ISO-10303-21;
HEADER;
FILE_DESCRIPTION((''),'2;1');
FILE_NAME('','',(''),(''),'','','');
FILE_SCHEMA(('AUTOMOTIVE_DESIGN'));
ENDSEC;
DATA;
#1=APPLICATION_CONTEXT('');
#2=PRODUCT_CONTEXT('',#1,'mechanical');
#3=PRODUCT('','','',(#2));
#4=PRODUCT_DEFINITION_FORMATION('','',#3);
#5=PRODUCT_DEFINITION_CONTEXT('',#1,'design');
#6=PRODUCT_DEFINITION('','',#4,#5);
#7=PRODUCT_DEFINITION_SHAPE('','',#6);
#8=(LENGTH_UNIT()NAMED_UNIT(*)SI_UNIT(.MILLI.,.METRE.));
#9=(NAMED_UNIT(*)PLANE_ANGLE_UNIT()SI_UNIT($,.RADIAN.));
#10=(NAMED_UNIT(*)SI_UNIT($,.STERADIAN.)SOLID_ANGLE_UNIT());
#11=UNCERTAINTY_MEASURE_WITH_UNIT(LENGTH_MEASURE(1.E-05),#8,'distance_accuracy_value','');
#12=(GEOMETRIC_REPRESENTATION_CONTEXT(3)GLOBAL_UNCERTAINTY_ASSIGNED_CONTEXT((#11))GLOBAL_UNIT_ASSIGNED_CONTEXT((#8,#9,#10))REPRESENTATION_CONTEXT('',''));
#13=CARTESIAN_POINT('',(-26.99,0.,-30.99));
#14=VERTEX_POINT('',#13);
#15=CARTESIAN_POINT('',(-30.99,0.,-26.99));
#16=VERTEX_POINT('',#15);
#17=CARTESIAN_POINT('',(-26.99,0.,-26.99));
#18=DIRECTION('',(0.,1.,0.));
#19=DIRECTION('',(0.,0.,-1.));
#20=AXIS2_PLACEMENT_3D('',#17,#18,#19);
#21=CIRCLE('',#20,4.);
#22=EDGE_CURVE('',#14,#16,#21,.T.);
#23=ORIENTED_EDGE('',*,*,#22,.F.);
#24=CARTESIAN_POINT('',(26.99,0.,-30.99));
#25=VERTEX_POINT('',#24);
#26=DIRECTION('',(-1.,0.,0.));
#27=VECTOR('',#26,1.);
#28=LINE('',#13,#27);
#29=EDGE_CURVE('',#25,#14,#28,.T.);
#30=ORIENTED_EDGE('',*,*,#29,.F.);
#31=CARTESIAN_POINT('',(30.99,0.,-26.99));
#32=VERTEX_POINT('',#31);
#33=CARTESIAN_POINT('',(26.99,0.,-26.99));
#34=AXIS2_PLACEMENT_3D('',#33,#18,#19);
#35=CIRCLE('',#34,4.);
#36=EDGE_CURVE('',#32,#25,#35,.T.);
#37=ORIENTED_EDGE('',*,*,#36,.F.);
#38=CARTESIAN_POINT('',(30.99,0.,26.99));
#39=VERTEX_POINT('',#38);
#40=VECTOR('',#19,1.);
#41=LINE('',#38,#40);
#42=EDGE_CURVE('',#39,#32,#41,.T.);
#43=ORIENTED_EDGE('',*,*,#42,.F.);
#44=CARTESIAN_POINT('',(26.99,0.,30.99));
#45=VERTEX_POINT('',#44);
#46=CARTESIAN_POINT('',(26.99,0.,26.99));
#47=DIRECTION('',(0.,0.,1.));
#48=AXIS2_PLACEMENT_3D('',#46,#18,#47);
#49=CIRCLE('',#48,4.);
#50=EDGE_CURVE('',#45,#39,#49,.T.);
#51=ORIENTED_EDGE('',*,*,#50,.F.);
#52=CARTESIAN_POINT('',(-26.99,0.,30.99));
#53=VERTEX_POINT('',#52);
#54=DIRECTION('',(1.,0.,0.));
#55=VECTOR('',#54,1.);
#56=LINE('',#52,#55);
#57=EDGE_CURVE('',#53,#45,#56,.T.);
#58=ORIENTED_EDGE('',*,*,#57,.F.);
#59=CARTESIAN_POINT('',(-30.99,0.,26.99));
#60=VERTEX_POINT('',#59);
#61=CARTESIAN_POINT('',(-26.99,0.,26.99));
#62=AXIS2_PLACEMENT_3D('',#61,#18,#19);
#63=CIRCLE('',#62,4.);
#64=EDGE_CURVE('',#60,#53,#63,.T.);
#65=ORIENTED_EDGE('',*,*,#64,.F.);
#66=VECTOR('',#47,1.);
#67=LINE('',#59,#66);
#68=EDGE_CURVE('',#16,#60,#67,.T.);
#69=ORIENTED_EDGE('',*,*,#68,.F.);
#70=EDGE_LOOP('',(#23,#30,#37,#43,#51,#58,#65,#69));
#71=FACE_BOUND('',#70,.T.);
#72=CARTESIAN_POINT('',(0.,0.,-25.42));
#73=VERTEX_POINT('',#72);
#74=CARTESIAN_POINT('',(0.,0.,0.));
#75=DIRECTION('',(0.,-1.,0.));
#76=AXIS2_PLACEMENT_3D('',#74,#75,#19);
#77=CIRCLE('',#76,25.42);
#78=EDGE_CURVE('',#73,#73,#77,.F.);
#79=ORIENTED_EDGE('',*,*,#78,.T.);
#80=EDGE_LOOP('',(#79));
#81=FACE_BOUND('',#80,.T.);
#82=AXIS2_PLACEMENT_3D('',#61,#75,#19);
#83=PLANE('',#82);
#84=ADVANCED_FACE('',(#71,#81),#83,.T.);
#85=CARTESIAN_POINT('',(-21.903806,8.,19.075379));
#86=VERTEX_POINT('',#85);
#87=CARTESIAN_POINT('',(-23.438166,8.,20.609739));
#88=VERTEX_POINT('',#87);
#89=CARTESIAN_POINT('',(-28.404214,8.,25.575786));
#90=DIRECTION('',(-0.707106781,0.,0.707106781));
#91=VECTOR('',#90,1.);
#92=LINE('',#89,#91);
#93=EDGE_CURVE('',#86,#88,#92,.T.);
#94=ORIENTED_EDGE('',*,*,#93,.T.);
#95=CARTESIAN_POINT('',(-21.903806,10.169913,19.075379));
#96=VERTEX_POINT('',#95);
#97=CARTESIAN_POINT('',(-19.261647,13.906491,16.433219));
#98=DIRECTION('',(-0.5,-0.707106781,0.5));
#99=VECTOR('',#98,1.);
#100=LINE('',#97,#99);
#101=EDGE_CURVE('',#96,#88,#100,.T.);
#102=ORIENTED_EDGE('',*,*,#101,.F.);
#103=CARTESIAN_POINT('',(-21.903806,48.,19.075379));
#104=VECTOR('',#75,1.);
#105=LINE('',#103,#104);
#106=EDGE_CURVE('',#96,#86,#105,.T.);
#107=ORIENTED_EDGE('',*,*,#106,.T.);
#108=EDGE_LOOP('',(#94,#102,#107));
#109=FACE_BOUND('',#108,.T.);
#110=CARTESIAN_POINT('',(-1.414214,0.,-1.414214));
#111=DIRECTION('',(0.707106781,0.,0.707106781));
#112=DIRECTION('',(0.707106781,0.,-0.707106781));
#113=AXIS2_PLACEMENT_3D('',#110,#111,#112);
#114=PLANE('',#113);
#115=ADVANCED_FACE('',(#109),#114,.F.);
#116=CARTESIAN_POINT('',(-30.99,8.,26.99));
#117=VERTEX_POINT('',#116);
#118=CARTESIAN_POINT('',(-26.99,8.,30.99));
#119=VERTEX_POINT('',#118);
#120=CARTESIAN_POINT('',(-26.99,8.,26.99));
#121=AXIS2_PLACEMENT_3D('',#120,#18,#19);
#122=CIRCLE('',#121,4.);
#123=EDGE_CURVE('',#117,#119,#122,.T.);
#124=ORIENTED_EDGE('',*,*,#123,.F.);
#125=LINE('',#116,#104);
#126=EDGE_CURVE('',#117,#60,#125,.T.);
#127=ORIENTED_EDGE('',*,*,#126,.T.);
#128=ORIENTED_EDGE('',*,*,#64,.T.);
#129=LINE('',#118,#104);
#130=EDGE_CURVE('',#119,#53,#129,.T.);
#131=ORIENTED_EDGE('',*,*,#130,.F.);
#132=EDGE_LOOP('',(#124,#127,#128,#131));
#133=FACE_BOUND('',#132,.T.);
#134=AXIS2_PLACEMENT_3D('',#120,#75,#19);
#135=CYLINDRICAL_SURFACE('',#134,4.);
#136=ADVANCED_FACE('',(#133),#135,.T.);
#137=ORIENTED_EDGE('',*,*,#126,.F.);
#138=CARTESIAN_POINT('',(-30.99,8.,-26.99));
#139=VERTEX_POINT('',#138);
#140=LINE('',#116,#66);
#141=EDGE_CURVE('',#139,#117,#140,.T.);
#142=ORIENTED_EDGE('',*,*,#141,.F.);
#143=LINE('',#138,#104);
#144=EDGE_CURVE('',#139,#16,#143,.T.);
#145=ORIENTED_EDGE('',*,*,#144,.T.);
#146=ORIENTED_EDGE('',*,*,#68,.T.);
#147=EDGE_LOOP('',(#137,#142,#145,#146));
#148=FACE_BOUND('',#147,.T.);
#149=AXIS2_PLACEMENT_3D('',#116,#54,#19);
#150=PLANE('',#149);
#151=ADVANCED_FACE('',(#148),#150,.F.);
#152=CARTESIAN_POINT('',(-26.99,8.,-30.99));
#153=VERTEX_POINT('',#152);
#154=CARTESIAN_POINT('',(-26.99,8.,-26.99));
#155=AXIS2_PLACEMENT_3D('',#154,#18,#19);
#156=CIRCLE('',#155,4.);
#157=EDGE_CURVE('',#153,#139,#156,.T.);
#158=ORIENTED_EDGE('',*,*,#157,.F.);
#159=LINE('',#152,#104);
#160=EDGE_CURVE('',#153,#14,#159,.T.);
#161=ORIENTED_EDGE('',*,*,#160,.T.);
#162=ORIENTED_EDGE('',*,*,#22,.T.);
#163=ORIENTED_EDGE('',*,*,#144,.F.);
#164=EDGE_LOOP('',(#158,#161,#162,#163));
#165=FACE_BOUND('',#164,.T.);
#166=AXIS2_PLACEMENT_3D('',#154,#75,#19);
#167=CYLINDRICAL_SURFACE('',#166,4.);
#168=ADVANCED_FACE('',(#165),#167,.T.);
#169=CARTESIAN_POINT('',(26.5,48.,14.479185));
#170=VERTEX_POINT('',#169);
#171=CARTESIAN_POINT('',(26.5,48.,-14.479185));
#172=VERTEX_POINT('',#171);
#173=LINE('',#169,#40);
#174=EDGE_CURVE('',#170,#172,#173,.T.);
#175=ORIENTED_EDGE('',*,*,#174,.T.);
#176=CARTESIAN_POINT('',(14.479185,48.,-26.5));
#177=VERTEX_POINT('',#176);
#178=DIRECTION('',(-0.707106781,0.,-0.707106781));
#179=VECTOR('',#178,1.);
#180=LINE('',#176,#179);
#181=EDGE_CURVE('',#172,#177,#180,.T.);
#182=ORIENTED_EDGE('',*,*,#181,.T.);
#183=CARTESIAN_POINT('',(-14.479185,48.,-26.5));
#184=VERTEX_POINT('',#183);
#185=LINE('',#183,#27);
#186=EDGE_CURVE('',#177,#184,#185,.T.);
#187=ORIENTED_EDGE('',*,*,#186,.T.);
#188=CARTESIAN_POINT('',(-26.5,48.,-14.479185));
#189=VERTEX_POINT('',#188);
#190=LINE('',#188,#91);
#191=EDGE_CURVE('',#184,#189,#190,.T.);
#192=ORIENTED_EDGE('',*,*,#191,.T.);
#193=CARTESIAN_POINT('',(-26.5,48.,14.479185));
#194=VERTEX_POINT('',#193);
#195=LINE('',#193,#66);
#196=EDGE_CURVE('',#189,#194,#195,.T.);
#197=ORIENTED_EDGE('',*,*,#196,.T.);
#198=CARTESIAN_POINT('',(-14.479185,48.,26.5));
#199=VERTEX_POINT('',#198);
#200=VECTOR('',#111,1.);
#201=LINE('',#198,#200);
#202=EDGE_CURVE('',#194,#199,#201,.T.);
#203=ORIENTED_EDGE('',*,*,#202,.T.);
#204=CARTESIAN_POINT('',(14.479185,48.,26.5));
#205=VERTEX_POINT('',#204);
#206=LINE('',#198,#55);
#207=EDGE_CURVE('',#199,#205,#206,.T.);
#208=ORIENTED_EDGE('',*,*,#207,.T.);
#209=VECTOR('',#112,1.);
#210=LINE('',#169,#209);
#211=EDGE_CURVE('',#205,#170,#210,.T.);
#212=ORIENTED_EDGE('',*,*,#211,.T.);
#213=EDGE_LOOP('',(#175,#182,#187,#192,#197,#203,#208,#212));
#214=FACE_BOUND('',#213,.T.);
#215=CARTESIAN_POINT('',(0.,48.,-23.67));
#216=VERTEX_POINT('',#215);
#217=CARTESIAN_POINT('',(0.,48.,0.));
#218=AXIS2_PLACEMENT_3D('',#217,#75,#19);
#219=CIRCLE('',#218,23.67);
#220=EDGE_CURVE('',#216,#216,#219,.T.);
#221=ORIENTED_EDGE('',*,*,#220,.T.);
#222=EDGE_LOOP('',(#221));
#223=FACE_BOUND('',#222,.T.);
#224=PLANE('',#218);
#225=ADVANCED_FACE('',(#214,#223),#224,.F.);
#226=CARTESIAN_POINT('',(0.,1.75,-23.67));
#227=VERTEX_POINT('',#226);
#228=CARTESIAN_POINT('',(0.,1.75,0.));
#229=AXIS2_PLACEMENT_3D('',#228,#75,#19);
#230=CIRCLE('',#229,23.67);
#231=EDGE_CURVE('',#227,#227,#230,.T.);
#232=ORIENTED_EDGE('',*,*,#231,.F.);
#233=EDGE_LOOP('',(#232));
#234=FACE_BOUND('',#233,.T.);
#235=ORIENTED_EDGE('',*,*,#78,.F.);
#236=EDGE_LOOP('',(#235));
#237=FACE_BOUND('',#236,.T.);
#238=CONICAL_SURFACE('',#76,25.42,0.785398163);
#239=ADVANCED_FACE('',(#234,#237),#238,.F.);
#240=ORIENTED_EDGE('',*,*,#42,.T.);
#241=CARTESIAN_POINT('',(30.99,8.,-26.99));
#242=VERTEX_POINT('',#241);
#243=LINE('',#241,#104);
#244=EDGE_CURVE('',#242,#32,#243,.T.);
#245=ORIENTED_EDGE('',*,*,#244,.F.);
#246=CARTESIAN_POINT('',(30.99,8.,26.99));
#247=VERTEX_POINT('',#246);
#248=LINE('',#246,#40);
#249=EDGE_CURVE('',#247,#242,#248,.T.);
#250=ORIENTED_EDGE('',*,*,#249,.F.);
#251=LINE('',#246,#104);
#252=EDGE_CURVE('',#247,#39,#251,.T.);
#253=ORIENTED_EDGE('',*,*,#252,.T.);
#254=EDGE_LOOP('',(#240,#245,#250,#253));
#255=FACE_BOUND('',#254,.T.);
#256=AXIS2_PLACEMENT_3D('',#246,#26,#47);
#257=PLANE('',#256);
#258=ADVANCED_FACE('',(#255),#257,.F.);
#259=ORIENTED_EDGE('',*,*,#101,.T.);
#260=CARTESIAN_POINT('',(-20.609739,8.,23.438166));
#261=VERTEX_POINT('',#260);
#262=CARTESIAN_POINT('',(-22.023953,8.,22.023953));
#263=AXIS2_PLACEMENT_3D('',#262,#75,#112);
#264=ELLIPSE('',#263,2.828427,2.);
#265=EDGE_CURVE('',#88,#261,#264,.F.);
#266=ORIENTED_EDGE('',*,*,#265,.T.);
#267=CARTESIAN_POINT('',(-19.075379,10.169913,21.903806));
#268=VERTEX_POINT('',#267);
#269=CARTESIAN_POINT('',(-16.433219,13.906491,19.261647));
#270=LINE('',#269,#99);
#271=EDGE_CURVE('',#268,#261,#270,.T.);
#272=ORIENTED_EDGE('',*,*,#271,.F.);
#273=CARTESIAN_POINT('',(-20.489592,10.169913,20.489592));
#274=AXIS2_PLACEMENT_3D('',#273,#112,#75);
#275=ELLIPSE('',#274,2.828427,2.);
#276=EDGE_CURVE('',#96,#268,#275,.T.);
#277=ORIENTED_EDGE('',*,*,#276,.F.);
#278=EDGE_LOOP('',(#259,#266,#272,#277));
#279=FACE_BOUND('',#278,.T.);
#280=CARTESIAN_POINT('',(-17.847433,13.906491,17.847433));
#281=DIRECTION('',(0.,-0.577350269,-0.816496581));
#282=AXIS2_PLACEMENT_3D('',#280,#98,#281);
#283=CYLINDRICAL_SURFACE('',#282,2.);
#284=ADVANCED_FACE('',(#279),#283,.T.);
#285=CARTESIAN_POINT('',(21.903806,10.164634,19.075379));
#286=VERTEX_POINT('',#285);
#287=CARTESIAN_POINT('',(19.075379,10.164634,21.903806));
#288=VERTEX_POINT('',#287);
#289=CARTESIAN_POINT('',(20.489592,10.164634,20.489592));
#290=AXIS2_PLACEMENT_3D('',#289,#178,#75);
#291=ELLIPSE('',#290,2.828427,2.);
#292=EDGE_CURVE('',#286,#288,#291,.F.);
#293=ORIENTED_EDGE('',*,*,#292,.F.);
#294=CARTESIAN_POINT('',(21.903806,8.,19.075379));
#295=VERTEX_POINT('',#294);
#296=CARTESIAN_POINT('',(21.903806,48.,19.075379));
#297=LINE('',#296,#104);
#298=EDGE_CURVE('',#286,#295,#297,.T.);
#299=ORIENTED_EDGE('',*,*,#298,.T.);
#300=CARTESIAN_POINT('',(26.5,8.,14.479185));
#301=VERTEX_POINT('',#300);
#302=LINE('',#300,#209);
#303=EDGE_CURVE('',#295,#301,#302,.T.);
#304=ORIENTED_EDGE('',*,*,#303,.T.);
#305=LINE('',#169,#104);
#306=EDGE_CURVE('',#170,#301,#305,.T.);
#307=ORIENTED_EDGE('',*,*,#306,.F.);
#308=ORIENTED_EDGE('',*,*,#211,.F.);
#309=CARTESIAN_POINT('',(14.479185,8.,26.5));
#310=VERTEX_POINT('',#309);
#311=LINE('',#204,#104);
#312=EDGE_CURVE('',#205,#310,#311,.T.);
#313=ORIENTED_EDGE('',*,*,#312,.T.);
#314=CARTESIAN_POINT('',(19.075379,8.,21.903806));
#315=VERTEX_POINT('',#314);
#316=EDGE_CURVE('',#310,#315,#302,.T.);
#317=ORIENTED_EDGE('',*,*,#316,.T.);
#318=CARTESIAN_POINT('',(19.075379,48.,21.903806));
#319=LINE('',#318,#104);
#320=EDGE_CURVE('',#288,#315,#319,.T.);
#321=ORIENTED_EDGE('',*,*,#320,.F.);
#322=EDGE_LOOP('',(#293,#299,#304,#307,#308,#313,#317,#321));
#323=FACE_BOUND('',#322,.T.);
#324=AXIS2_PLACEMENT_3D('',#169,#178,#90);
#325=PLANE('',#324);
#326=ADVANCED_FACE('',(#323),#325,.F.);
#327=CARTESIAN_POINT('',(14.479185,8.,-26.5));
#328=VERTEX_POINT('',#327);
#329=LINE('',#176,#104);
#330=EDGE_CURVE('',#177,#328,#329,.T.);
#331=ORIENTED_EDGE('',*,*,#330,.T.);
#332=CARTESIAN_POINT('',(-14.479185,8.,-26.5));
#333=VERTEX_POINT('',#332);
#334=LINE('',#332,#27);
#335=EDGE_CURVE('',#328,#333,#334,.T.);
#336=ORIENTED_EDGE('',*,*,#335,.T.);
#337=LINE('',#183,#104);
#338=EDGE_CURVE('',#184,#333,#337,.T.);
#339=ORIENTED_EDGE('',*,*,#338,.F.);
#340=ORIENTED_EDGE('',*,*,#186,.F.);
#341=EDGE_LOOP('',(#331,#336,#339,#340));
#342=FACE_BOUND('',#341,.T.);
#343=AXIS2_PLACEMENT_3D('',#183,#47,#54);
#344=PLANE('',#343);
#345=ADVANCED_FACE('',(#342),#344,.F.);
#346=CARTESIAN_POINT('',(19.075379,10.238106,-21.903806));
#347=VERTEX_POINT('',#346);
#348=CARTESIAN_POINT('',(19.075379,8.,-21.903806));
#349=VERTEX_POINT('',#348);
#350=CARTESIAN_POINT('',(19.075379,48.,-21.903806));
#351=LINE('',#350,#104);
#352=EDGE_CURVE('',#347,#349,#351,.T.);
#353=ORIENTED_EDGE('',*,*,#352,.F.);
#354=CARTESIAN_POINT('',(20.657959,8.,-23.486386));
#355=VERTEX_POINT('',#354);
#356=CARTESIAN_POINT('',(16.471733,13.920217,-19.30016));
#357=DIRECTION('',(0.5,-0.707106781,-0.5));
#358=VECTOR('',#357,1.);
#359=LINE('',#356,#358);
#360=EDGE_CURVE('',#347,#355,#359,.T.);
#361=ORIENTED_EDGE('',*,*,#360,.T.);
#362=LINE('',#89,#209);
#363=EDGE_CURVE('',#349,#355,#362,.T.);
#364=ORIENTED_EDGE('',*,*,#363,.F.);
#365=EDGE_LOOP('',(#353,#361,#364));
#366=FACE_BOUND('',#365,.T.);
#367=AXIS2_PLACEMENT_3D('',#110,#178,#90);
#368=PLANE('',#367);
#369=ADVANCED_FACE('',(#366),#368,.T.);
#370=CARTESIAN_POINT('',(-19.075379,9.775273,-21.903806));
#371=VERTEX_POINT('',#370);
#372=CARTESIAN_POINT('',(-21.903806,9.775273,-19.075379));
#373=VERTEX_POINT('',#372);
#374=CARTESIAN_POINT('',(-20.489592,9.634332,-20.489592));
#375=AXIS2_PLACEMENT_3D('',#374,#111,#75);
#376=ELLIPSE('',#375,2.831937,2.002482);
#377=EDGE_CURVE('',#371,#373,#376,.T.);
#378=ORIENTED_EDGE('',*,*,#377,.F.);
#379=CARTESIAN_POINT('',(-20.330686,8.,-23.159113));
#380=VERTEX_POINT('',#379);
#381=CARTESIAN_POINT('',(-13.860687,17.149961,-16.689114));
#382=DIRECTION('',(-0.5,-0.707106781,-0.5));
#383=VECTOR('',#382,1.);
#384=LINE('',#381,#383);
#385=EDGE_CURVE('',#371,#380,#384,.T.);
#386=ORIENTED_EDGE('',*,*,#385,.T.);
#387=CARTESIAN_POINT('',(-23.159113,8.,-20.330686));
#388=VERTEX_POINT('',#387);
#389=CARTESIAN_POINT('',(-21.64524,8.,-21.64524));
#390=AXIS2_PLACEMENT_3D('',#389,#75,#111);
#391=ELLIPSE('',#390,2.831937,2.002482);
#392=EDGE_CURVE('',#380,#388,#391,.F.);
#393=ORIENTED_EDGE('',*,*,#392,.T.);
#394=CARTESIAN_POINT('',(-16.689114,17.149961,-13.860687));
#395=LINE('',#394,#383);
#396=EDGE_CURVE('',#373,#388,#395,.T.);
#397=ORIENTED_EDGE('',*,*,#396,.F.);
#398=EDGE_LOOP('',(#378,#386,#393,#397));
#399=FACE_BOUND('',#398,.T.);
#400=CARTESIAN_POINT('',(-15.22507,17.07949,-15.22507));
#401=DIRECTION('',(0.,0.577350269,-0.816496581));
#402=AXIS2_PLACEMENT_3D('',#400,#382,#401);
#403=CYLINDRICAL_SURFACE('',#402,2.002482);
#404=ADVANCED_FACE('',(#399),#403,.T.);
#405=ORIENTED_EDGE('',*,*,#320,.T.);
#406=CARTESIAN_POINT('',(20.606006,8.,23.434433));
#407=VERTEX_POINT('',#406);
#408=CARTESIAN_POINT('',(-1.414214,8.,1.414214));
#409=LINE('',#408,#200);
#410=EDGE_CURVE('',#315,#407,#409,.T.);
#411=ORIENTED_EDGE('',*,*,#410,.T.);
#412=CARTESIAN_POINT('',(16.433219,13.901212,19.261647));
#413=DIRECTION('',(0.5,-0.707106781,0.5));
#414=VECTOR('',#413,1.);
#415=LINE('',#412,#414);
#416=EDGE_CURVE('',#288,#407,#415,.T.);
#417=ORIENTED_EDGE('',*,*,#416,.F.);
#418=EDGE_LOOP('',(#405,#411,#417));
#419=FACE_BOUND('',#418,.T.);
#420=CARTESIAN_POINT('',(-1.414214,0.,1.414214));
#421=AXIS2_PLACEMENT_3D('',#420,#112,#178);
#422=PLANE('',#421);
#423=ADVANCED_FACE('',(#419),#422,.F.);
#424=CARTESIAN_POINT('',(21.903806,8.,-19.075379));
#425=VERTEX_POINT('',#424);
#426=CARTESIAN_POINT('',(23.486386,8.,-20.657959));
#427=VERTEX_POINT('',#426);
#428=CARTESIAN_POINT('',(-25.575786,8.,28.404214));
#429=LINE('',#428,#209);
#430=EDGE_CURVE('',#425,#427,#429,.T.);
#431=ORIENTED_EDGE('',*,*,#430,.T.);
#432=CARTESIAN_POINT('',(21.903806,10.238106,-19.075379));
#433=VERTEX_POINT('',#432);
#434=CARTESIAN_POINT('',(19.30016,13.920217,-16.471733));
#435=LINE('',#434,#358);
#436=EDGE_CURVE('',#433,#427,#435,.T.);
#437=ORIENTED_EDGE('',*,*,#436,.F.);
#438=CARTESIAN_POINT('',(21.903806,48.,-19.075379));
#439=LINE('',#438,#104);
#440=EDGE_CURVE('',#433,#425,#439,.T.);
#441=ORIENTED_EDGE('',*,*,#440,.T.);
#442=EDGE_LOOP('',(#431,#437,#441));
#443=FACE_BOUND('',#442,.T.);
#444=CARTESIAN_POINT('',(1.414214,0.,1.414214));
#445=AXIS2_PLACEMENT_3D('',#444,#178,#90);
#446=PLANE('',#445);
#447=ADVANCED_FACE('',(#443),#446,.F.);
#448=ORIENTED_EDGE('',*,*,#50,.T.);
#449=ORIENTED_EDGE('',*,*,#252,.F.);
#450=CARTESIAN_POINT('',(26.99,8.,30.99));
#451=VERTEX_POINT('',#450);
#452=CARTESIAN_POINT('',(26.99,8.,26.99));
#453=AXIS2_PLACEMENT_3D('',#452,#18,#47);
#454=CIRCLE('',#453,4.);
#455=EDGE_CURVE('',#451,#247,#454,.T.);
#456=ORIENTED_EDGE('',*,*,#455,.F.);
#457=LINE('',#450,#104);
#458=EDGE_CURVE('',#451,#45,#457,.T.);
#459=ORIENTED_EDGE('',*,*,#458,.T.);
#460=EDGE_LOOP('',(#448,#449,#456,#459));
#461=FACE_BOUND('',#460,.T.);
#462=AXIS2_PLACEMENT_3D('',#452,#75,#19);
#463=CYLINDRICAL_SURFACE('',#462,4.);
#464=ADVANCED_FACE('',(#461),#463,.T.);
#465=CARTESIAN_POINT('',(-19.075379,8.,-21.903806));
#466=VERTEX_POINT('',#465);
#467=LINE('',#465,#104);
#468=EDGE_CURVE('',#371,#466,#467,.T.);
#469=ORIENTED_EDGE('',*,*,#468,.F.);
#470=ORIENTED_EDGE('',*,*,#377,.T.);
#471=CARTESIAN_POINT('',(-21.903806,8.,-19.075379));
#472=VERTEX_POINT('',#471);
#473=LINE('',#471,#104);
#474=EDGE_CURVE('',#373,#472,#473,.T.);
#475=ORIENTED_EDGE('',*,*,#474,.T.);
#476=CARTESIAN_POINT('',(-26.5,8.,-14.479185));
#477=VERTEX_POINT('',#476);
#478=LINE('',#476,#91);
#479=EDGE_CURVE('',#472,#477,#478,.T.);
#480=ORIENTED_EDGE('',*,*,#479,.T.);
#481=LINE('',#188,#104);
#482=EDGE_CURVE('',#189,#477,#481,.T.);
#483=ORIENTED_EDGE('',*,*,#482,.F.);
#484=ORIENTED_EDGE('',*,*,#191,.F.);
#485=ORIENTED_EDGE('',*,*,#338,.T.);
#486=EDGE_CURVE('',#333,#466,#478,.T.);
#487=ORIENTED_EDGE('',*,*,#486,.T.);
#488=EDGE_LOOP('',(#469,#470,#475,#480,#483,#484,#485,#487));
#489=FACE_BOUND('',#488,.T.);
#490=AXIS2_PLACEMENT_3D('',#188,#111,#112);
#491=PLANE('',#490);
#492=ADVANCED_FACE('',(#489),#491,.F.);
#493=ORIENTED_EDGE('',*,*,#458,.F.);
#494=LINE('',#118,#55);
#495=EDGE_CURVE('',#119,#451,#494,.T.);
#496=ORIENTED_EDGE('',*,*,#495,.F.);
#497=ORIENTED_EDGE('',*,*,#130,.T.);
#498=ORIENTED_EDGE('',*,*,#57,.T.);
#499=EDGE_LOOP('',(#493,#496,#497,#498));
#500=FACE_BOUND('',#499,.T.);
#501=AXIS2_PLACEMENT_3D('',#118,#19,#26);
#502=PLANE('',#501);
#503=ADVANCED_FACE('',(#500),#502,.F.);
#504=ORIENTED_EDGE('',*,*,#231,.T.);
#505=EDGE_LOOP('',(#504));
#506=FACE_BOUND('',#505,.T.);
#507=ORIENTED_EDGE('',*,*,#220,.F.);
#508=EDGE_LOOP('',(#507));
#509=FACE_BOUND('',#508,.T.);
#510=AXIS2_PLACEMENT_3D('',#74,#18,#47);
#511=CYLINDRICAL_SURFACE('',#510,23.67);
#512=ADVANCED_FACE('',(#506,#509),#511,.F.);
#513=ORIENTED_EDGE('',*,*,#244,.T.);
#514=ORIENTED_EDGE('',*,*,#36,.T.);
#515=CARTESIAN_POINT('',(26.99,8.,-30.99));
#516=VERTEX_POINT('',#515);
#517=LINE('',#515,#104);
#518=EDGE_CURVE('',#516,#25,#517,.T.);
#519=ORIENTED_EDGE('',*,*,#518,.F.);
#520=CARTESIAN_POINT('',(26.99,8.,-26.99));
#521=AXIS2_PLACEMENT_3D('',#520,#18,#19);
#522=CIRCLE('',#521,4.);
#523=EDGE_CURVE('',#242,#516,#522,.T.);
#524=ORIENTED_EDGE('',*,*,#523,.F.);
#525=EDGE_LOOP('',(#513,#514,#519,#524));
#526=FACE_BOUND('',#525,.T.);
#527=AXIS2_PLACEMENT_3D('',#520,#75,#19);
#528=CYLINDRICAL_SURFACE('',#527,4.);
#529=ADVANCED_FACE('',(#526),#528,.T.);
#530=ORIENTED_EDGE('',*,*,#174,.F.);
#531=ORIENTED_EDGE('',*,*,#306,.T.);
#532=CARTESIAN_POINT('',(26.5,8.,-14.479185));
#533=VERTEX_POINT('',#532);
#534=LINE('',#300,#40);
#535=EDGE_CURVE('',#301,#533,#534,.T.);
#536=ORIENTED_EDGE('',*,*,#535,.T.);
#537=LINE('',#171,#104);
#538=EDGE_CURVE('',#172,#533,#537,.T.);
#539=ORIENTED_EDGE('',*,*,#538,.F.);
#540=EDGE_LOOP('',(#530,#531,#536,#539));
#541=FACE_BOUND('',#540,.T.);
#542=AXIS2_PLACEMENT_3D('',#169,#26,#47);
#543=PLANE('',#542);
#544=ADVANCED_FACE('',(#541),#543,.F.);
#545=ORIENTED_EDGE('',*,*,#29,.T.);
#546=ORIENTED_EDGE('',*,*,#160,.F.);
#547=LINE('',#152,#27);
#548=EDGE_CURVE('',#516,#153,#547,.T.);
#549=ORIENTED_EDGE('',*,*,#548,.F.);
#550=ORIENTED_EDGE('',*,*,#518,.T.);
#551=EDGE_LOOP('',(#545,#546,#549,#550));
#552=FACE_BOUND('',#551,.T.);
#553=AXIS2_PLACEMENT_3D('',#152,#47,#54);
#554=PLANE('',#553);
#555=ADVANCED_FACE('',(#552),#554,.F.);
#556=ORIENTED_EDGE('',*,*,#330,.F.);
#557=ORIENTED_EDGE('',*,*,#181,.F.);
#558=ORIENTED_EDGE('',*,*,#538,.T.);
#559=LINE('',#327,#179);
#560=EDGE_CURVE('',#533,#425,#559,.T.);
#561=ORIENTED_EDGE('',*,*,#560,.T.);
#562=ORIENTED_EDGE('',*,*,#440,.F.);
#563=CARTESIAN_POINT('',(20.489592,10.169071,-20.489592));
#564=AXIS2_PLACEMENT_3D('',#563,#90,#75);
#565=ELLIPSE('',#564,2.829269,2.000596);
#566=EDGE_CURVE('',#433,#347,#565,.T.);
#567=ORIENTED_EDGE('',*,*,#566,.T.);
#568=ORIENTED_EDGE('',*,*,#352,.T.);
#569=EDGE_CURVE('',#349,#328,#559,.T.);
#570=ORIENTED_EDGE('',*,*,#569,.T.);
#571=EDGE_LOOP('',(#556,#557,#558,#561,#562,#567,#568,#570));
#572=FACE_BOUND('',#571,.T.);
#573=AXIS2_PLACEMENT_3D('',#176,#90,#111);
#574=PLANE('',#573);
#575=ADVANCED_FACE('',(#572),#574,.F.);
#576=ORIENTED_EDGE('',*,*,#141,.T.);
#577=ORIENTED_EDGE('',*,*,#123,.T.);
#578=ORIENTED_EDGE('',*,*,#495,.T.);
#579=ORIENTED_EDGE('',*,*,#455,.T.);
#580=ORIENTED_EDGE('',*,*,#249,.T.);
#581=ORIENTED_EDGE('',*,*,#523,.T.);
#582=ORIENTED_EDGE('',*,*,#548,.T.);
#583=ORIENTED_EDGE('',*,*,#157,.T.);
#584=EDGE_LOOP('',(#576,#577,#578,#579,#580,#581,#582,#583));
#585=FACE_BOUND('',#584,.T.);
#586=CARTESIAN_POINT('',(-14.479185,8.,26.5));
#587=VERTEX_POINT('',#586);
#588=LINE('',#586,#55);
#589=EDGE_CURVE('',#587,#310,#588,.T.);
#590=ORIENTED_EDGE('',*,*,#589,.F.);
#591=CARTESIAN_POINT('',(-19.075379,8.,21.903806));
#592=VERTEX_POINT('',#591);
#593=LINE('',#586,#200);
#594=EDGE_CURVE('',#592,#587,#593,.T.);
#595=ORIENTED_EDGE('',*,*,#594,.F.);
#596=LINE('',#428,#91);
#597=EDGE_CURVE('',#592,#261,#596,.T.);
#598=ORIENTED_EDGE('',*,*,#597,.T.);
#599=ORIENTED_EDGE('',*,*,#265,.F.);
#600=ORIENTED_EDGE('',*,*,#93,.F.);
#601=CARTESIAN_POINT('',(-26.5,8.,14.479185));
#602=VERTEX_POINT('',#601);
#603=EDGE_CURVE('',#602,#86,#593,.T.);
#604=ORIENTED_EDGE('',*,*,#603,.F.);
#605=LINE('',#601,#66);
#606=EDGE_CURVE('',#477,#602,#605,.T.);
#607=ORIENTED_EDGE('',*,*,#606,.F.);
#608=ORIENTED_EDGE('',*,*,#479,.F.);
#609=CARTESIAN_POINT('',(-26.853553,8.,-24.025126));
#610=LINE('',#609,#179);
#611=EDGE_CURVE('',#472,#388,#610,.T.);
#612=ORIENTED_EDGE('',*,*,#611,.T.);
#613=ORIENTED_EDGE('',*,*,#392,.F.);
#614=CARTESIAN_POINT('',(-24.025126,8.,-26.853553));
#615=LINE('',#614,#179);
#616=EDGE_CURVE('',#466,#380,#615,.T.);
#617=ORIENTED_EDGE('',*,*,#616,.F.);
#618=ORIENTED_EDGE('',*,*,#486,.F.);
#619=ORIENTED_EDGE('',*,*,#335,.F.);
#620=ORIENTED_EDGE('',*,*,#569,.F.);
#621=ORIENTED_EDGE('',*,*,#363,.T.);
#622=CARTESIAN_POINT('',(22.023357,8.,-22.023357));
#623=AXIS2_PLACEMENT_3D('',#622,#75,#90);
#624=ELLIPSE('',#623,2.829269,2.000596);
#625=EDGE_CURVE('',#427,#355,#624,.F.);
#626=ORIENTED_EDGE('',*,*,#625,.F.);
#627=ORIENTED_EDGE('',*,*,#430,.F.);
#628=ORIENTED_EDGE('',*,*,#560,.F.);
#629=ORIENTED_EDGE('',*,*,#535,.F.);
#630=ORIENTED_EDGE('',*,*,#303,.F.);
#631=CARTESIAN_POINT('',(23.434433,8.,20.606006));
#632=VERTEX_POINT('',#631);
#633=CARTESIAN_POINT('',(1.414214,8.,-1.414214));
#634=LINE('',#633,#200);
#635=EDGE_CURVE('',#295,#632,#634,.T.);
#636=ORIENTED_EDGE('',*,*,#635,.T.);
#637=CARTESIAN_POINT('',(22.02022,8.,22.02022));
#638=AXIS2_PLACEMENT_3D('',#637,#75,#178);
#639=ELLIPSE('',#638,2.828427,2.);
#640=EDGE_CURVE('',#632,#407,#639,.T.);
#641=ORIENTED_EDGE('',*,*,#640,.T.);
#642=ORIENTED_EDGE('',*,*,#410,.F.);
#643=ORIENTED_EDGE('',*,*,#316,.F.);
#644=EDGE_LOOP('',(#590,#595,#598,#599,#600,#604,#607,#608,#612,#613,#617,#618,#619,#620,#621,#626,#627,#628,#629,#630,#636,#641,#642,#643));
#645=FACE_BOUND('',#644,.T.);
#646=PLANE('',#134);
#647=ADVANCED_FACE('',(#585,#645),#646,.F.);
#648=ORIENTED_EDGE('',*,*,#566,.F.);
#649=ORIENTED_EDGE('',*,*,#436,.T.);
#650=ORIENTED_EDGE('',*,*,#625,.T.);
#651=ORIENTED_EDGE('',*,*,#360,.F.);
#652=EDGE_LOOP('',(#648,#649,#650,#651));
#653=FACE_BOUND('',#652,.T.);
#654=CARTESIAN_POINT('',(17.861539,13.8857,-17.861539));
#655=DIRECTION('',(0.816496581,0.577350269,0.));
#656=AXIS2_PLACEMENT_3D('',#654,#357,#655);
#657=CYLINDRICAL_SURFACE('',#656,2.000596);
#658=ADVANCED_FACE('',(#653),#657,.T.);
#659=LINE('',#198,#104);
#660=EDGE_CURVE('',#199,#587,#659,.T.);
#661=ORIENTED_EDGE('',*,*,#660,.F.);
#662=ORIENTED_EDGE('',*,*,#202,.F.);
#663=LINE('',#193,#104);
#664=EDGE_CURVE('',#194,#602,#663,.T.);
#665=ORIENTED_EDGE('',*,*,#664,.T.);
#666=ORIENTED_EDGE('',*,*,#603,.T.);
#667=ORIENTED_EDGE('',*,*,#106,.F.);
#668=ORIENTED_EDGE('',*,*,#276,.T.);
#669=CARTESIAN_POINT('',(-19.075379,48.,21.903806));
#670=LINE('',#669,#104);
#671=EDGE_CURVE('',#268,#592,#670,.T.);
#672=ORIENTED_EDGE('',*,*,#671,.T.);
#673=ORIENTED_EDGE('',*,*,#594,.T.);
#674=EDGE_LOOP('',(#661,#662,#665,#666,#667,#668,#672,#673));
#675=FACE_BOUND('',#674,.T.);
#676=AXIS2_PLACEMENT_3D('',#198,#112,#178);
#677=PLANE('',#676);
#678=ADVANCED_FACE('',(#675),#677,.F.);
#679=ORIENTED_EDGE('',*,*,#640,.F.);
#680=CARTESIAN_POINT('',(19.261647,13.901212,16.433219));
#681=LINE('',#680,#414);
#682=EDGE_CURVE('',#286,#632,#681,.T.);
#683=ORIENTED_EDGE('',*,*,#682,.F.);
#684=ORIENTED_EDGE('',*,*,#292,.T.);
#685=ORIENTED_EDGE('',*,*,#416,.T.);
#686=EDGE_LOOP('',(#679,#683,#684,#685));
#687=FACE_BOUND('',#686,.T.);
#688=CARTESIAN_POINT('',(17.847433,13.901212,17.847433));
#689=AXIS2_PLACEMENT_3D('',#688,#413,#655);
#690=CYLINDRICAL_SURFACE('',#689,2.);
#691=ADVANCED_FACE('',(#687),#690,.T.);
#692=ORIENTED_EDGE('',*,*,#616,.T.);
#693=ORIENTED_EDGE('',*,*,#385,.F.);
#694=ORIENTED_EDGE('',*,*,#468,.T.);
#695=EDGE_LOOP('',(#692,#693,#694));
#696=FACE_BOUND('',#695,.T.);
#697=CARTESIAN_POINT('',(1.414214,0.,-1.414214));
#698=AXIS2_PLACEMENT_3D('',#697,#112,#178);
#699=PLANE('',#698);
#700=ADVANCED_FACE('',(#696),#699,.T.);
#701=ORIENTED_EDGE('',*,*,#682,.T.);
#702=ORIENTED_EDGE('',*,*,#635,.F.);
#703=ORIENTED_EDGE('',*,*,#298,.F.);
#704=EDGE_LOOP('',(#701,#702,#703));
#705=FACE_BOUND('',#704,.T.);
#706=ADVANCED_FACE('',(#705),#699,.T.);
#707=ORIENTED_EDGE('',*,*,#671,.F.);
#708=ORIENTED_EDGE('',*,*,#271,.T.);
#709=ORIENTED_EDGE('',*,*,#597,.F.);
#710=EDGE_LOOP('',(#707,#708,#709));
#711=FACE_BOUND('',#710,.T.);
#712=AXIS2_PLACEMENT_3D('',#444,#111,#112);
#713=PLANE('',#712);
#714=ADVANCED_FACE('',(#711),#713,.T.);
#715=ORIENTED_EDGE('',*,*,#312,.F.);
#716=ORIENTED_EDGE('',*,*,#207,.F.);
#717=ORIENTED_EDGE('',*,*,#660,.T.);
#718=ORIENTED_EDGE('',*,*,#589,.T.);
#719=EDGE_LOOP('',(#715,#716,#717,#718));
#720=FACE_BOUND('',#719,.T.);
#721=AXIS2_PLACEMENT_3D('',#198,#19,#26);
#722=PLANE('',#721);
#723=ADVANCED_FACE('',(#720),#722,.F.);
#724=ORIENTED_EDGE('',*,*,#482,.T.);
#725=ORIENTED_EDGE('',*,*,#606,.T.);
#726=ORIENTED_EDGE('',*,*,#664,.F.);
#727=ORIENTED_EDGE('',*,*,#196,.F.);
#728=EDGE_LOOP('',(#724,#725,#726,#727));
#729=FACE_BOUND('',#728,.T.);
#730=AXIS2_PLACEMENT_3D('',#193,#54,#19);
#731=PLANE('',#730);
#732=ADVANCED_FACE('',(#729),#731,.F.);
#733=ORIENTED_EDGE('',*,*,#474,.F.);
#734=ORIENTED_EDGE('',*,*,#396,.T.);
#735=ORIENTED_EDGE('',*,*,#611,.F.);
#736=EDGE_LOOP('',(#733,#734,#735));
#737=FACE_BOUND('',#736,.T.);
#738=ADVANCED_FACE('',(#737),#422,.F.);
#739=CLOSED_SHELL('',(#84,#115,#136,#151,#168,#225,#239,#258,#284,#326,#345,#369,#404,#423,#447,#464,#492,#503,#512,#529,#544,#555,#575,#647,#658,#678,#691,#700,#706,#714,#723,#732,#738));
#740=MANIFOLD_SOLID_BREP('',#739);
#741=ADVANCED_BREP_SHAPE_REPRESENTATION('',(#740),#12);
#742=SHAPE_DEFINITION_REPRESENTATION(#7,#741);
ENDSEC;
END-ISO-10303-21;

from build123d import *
from build123d.topology import SkipClean

# Parameters (mm, degrees)
BOSS_EXTRU_1_DEPTH                  = 8
BOSS_EXTRU_2_DEPTH                  = 40
ENL_V_MAT_EXTRU_1_DEPTH             = 65.998155358
ENL_V_MAT_EXTRU_1_DEPTH_BACK        = 65.998155358
ESQUISSE5_R                         = 23.67
CHANFREIN1_SIZE                     = 1.75
BOSS_EXTRU_3_DEPTH                  = 2
BOSS_EXTRU_4_DEPTH                  = 2
ENL_V_MAT_EXTRU_4_REACH             = 81.818
ENL_V_MAT_EXTRU_4_DIRECTION_2_REACH = 81.818
ENL_V_MAT_EXTRU_6_REACH             = 81.818
ENL_V_MAT_EXTRU_6_DIRECTION_2_REACH = 81.818
ENL_V_MAT_EXTRU_7_REACH             = 81.818
ENL_V_MAT_EXTRU_7_DIRECTION_2_REACH = 81.818
ENL_V_MAT_EXTRU_8_REACH             = 81.818
ENL_V_MAT_EXTRU_8_DIRECTION_2_REACH = 81.818


with BuildPart() as part:
    # Esquisse1 → Boss.-Extru.1 (new body)
    with BuildSketch(Plane(origin=(0, 0, 0), x_dir=(1, 0, 0), z_dir=(0, 1, 0))):
        with BuildLine():
            Line((-26.99, -30.99), (26.99, -30.99))
            ThreePointArc((26.99, -30.99), (29.818427125, -29.818427125), (30.99, -26.99))
            Line((30.99, -26.99), (30.99, 26.99))
            ThreePointArc((30.99, 26.99), (29.818427125, 29.818427125), (26.99, 30.99))
            Line((26.99, 30.99), (-26.99, 30.99))
            ThreePointArc((-26.99, 30.99), (-29.818427125, 29.818427125), (-30.99, 26.99))
            Line((-30.99, 26.99), (-30.99, -26.99))
            ThreePointArc((-30.99, -26.99), (-29.818427125, -29.818427125), (-26.99, -30.99))
        make_face()
    extrude(amount=BOSS_EXTRU_1_DEPTH)

    # Esquisse4 → Boss.-Extru.2 (add)
    with BuildSketch(Plane(origin=(0, 8, 0), x_dir=(1, 0, 0), z_dir=(0, 1, 0))):
        Polygon((-26.5, 14.47918472), (-14.47918472, 26.5), (14.47918472, 26.5), (26.5, 14.47918472), (26.5, -14.47918472), (14.47918472, -26.5), (-14.47918472, -26.5), (-26.5, -14.47918472), align=None)
    extrude(amount=BOSS_EXTRU_2_DEPTH)

    # Esquisse5 → Enlèv. mat.-Extru.1 (cut, two sides: drawn at the far end of the back side and taken through both)
    with BuildSketch(Plane(origin=(0, 48, 0), x_dir=(1, 0, 0), z_dir=(0, 1, 0)).offset(-ENL_V_MAT_EXTRU_1_DEPTH_BACK)):
        Circle(ESQUISSE5_R)
    extrude(amount=ENL_V_MAT_EXTRU_1_DEPTH + ENL_V_MAT_EXTRU_1_DEPTH_BACK, mode=Mode.SUBTRACT)

    # Chanfrein1
    chanfrein1_edges = [part.edges().sort_by_distance(p)[0] for p in [
        (-23.67, 0, 0),
    ]]
    chamfer(chanfrein1_edges, length=CHANFREIN1_SIZE)

    # Esquisse10 → Boss.-Extru.3 (add, symmetric)
    with BuildSketch(Plane(origin=(0, 0, 0), x_dir=(-0.7071067811865478, 0, -0.7071067811865472), z_dir=(0.7071067811865472, 0, -0.7071067811865478))):
        Polygon((-35.969720461, 6), (-28.969720461, 13), (-28.969720461, 6), align=None)
        Polygon((28.976659403, 15), (35.976659403, 8), (28.976659403, 8), align=None)
    extrude(amount=BOSS_EXTRU_3_DEPTH, both=True)

    # Esquisse11 → Boss.-Extru.4 (add, symmetric)
    with BuildSketch(Plane(origin=(0, 0, 0), x_dir=(0.7071067811865366, 0, -0.7071067811865585), z_dir=(0.7071067811865585, 0, 0.7071067811865366))):
        Polygon((-35.975, 6), (-28.975, 13), (-28.975, 6), align=None)
        Polygon((35.975, 6), (28.975, 13), (28.975, 6), align=None)
    extrude(amount=BOSS_EXTRU_4_DEPTH, both=True)

    # Enlèv. mat.-Extru.4: up to this plane
    enl_v_mat_extru_4_end = Plane(origin=(14.47918472, 48, -26.5), z_dir=(-0.7071067811865497, 0, 0.7071067811865456))
    # Esquisse13 → Enlèv. mat.-Extru.4 (cut, up to the surface)
    with BuildSketch(Plane(origin=(7.416369055, -10.488329701, -7.416369055), x_dir=(-0.8660254037844379, -0.4082482904638646, -0.2886751345948132), z_dir=(0.5000000000000014, -0.7071067811865476, -0.49999999999999856)), mode=Mode.PRIVATE) as enl_v_mat_extru_4_sk1:
        with BuildLine():
            Line((-15.50322883, 25.388978088), (-17.136222001, 24.234277543))
            ThreePointArc((-17.136222001, 24.234277543), (-15.666955767, 24.576563109), (-14.376367648, 23.795355721))
            Line((-14.376367648, 23.795355721), (-15.50322883, 25.388978088))
        make_face()
    enl_v_mat_extru_4_tool1 = split(extrude(enl_v_mat_extru_4_sk1.sketch, amount=-ENL_V_MAT_EXTRU_4_REACH, mode=Mode.PRIVATE), bisect_by=enl_v_mat_extru_4_end, keep=Keep.BOTH, mode=Mode.PRIVATE)
    add(enl_v_mat_extru_4_tool1.solids().sort_by_distance((20.935486, 10.183705, -23.131924))[0], mode=Mode.SUBTRACT)
    # Esquisse13 → Enlèv. mat.-Extru.4 (cut, up to the surface)
    with BuildSketch(Plane(origin=(7.416369055, -10.488329701, -7.416369055), x_dir=(-0.8660254037844379, -0.4082482904638646, -0.2886751345948132), z_dir=(0.5000000000000014, -0.7071067811865476, -0.49999999999999856)), mode=Mode.PRIVATE) as enl_v_mat_extru_4_sk2:
        with BuildLine():
            Line((-18.769215154, 23.079577011), (-17.642353972, 21.485954644))
            ThreePointArc((-17.642353972, 21.485954644), (-17.948687323, 22.963135244), (-17.136222001, 24.234277543))
            Line((-17.136222001, 24.234277543), (-18.769215154, 23.079577011))
        make_face()
    enl_v_mat_extru_4_tool2 = split(extrude(enl_v_mat_extru_4_sk2.sketch, amount=-ENL_V_MAT_EXTRU_4_REACH, mode=Mode.PRIVATE), bisect_by=enl_v_mat_extru_4_end, keep=Keep.BOTH, mode=Mode.PRIVATE)
    add(enl_v_mat_extru_4_tool2.solids().sort_by_distance((23.131924, 10.183705, -20.935486))[0], mode=Mode.SUBTRACT)

    # Enlèv. mat.-Extru.4 direction 2: up to this plane
    enl_v_mat_extru_4_direction_2_end = Plane(origin=(-26.99, 8, 26.99), z_dir=(0, -1, 0))
    # Esquisse13 → Enlèv. mat.-Extru.4 direction 2 (cut, up to the surface)
    with BuildSketch(Plane(origin=(7.416369055, -10.488329701, -7.416369055), x_dir=(-0.8660254037844379, -0.4082482904638646, -0.2886751345948132), z_dir=(0.5000000000000014, -0.7071067811865476, -0.49999999999999856)), mode=Mode.PRIVATE) as enl_v_mat_extru_4_direction_2_sk1:
        with BuildLine():
            Line((-15.50322883, 25.388978088), (-17.136222001, 24.234277543))
            ThreePointArc((-17.136222001, 24.234277543), (-15.666955767, 24.576563109), (-14.376367648, 23.795355721))
            Line((-14.376367648, 23.795355721), (-15.50322883, 25.388978088))
        make_face()
    enl_v_mat_extru_4_direction_2_tool1 = split(extrude(enl_v_mat_extru_4_direction_2_sk1.sketch, amount=ENL_V_MAT_EXTRU_4_DIRECTION_2_REACH, mode=Mode.PRIVATE), bisect_by=enl_v_mat_extru_4_direction_2_end, keep=Keep.BOTH, mode=Mode.PRIVATE)
    add(enl_v_mat_extru_4_direction_2_tool1.solids().sort_by_distance((20.935486, 10.183705, -23.131924))[0], mode=Mode.SUBTRACT)
    # Esquisse13 → Enlèv. mat.-Extru.4 direction 2 (cut, up to the surface)
    with BuildSketch(Plane(origin=(7.416369055, -10.488329701, -7.416369055), x_dir=(-0.8660254037844379, -0.4082482904638646, -0.2886751345948132), z_dir=(0.5000000000000014, -0.7071067811865476, -0.49999999999999856)), mode=Mode.PRIVATE) as enl_v_mat_extru_4_direction_2_sk2:
        with BuildLine():
            Line((-18.769215154, 23.079577011), (-17.642353972, 21.485954644))
            ThreePointArc((-17.642353972, 21.485954644), (-17.948687323, 22.963135244), (-17.136222001, 24.234277543))
            Line((-17.136222001, 24.234277543), (-18.769215154, 23.079577011))
        make_face()
    enl_v_mat_extru_4_direction_2_tool2 = split(extrude(enl_v_mat_extru_4_direction_2_sk2.sketch, amount=ENL_V_MAT_EXTRU_4_DIRECTION_2_REACH, mode=Mode.PRIVATE), bisect_by=enl_v_mat_extru_4_direction_2_end, keep=Keep.BOTH, mode=Mode.PRIVATE)
    add(enl_v_mat_extru_4_direction_2_tool2.solids().sort_by_distance((23.131924, 10.183705, -20.935486))[0], mode=Mode.SUBTRACT)

    # Enlèv. mat.-Extru.6: up to this plane
    enl_v_mat_extru_6_end = Plane(origin=(-26.5, 48, -14.47918472), z_dir=(0.7071067811865476, 0, 0.7071067811865476))
    # Esquisse15 → Enlèv. mat.-Extru.6 (cut, up to the surface)
    with BuildSketch(Plane(origin=(-7.416369055, -10.488329701, -7.416369055), x_dir=(-0.8660254037844388, 0.40824829046386296, 0.28867513459481287), z_dir=(-0.4999999999999999, -0.7071067811865477, -0.5)), mode=Mode.PRIVATE) as enl_v_mat_extru_6_sk1:
        with BuildLine():
            Line((14.187416942, 23.52813907), (16.32040286, 26.544636683))
            Line((16.32040286, 26.544636683), (19.586389183, 24.235235606))
            Line((19.586389183, 24.235235606), (17.453403266, 21.218737993))
            ThreePointArc((17.453403266, 21.218737993), (16.919004437, 23.927085537), (14.187416942, 23.52813907))
        make_face()
    enl_v_mat_extru_6_tool1 = split(extrude(enl_v_mat_extru_6_sk1.sketch, amount=-ENL_V_MAT_EXTRU_6_REACH, mode=Mode.PRIVATE), bisect_by=enl_v_mat_extru_6_end, keep=Keep.BOTH, mode=Mode.PRIVATE)
    add(enl_v_mat_extru_6_tool1.solids().sort_by_distance((-22.387383, 10.683882, -22.387383))[0], mode=Mode.SUBTRACT)

    # Enlèv. mat.-Extru.6 direction 2: up to this plane
    enl_v_mat_extru_6_direction_2_end = Plane(origin=(-26.99, 8, 26.99), z_dir=(0, -1, 0))
    # Esquisse15 → Enlèv. mat.-Extru.6 direction 2 (cut, up to the surface)
    with BuildSketch(Plane(origin=(-7.416369055, -10.488329701, -7.416369055), x_dir=(-0.8660254037844388, 0.40824829046386296, 0.28867513459481287), z_dir=(-0.4999999999999999, -0.7071067811865477, -0.5)), mode=Mode.PRIVATE) as enl_v_mat_extru_6_direction_2_sk1:
        with BuildLine():
            Line((14.187416942, 23.52813907), (16.32040286, 26.544636683))
            Line((16.32040286, 26.544636683), (19.586389183, 24.235235606))
            Line((19.586389183, 24.235235606), (17.453403266, 21.218737993))
            ThreePointArc((17.453403266, 21.218737993), (16.919004437, 23.927085537), (14.187416942, 23.52813907))
        make_face()
    enl_v_mat_extru_6_direction_2_tool1 = split(extrude(enl_v_mat_extru_6_direction_2_sk1.sketch, amount=ENL_V_MAT_EXTRU_6_DIRECTION_2_REACH, mode=Mode.PRIVATE), bisect_by=enl_v_mat_extru_6_direction_2_end, keep=Keep.BOTH, mode=Mode.PRIVATE)
    add(enl_v_mat_extru_6_direction_2_tool1.solids().sort_by_distance((-22.387383, 10.683882, -22.387383))[0], mode=Mode.SUBTRACT)

    # Enlèv. mat.-Extru.7: up to this plane
    enl_v_mat_extru_7_end = Plane(origin=(-14.47918472, 48, 26.5), z_dir=(0.7071067811865447, 0, -0.7071067811865503))
    # Esquisse16 → Enlèv. mat.-Extru.7 (cut, up to the surface)
    with BuildSketch(Plane(origin=(-7.416369055, -10.488329701, 7.416369055), x_dir=(-0.8660254037844398, 0.4082482904638608, -0.2886751345948125), z_dir=(-0.499999999999998, -0.7071067811865477, 0.500000000000002)), mode=Mode.PRIVATE) as enl_v_mat_extru_7_sk1:
        with BuildLine():
            Line((15.50322883, -25.388978088), (17.136221984, -24.234277555))
            ThreePointArc((17.136221984, -24.234277555), (15.643317492, -24.572481506), (14.348528292, -23.755984926))
            Line((14.348528292, -23.755984926), (15.50322883, -25.388978088))
        make_face()
    enl_v_mat_extru_7_tool1 = split(extrude(enl_v_mat_extru_7_sk1.sketch, amount=-ENL_V_MAT_EXTRU_7_REACH, mode=Mode.PRIVATE), bisect_by=enl_v_mat_extru_7_end, keep=Keep.BOTH, mode=Mode.PRIVATE)
    add(enl_v_mat_extru_7_tool1.solids().sort_by_distance((-20.935081, 10.18328, 23.131728))[0], mode=Mode.SUBTRACT)
    # Esquisse16 → Enlèv. mat.-Extru.7 (cut, up to the surface)
    with BuildSketch(Plane(origin=(-7.416369055, -10.488329701, 7.416369055), x_dir=(-0.8660254037844398, 0.4082482904638608, -0.2886751345948125), z_dir=(-0.499999999999998, -0.7071067811865477, 0.500000000000002)), mode=Mode.PRIVATE) as enl_v_mat_extru_7_sk2:
        with BuildLine():
            Line((18.769215154, -23.079577011), (17.614514616, -21.446583849))
            ThreePointArc((17.614514616, -21.446583849), (17.952718572, -22.93948835), (17.136221984, -24.234277555))
            Line((17.136221984, -24.234277555), (18.769215154, -23.079577011))
        make_face()
    enl_v_mat_extru_7_tool2 = split(extrude(enl_v_mat_extru_7_sk2.sketch, amount=-ENL_V_MAT_EXTRU_7_REACH, mode=Mode.PRIVATE), bisect_by=enl_v_mat_extru_7_end, keep=Keep.BOTH, mode=Mode.PRIVATE)
    add(enl_v_mat_extru_7_tool2.solids().sort_by_distance((-23.131728, 10.18328, 20.935081))[0], mode=Mode.SUBTRACT)

    # Enlèv. mat.-Extru.7 direction 2: up to this plane
    with SkipClean():  # the faces are left unmerged after this step: merging them gives an invalid solid
        enl_v_mat_extru_7_direction_2_end = Plane(origin=(-26.99, 8, 26.99), z_dir=(0, -1, 0))
        # Esquisse16 → Enlèv. mat.-Extru.7 direction 2 (cut, up to the surface)
        with BuildSketch(Plane(origin=(-7.416369055, -10.488329701, 7.416369055), x_dir=(-0.8660254037844398, 0.4082482904638608, -0.2886751345948125), z_dir=(-0.499999999999998, -0.7071067811865477, 0.500000000000002)), mode=Mode.PRIVATE) as enl_v_mat_extru_7_direction_2_sk1:
            with BuildLine():
                Line((15.50322883, -25.388978088), (17.136221984, -24.234277555))
                ThreePointArc((17.136221984, -24.234277555), (15.643317492, -24.572481506), (14.348528292, -23.755984926))
                Line((14.348528292, -23.755984926), (15.50322883, -25.388978088))
            make_face()
        enl_v_mat_extru_7_direction_2_tool1 = split(extrude(enl_v_mat_extru_7_direction_2_sk1.sketch, amount=ENL_V_MAT_EXTRU_7_DIRECTION_2_REACH, mode=Mode.PRIVATE), bisect_by=enl_v_mat_extru_7_direction_2_end, keep=Keep.BOTH, mode=Mode.PRIVATE)
        add(enl_v_mat_extru_7_direction_2_tool1.solids().sort_by_distance((-20.935081, 10.18328, 23.131728))[0], mode=Mode.SUBTRACT)
        # Esquisse16 → Enlèv. mat.-Extru.7 direction 2 (cut, up to the surface)
        with BuildSketch(Plane(origin=(-7.416369055, -10.488329701, 7.416369055), x_dir=(-0.8660254037844398, 0.4082482904638608, -0.2886751345948125), z_dir=(-0.499999999999998, -0.7071067811865477, 0.500000000000002)), mode=Mode.PRIVATE) as enl_v_mat_extru_7_direction_2_sk2:
            with BuildLine():
                Line((18.769215154, -23.079577011), (17.614514616, -21.446583849))
                ThreePointArc((17.614514616, -21.446583849), (17.952718572, -22.93948835), (17.136221984, -24.234277555))
                Line((17.136221984, -24.234277555), (18.769215154, -23.079577011))
            make_face()
        enl_v_mat_extru_7_direction_2_tool2 = split(extrude(enl_v_mat_extru_7_direction_2_sk2.sketch, amount=ENL_V_MAT_EXTRU_7_DIRECTION_2_REACH, mode=Mode.PRIVATE), bisect_by=enl_v_mat_extru_7_direction_2_end, keep=Keep.BOTH, mode=Mode.PRIVATE)
        add(enl_v_mat_extru_7_direction_2_tool2.solids().sort_by_distance((-23.131728, 10.18328, 20.935081))[0], mode=Mode.SUBTRACT)

    # Enlèv. mat.-Extru.8: up to this plane
    with SkipClean():  # the faces are left unmerged after this step: merging them gives an invalid solid
        enl_v_mat_extru_8_end = Plane(origin=(26.5, 48, 14.47918472), z_dir=(-0.7071067811865694, 0, -0.7071067811865256))
        # Esquisse12 → Enlèv. mat.-Extru.8 (cut, up to the surface)
        with BuildSketch(Plane(origin=(7.416369055, -10.488329701, 7.416369055), x_dir=(-0.8660254037844298, -0.4082482904638799, 0.2886751345948158), z_dir=(0.5000000000000154, -0.7071067811865477, 0.4999999999999844)), mode=Mode.PRIVATE) as enl_v_mat_extru_8_sk1:
            with BuildLine():
                Line((-18.767059791, -23.076528867), (-17.134066672, -24.231229375))
                ThreePointArc((-17.134066672, -24.231229375), (-17.950563215, -22.936440175), (-17.612359253, -21.443535706))
                Line((-17.612359253, -21.443535706), (-18.767059791, -23.076528867))
            make_face()
        enl_v_mat_extru_8_tool1 = split(extrude(enl_v_mat_extru_8_sk1.sketch, amount=-ENL_V_MAT_EXTRU_8_REACH, mode=Mode.PRIVATE), bisect_by=enl_v_mat_extru_8_end, keep=Keep.BOTH, mode=Mode.PRIVATE)
        add(enl_v_mat_extru_8_tool1.solids().sort_by_distance((23.129862, 10.180641, 20.933214))[0], mode=Mode.SUBTRACT)
        # Esquisse12 → Enlèv. mat.-Extru.8 (cut, up to the surface)
        with BuildSketch(Plane(origin=(7.416369055, -10.488329701, 7.416369055), x_dir=(-0.8660254037844298, -0.4082482904638799, 0.2886751345948158), z_dir=(0.5000000000000154, -0.7071067811865477, 0.4999999999999844)), mode=Mode.PRIVATE) as enl_v_mat_extru_8_sk2:
            with BuildLine():
                Line((-15.501073467, -25.385929944), (-14.346372929, -23.752936782))
                ThreePointArc((-14.346372929, -23.752936782), (-15.64116216, -24.569433368), (-17.134066672, -24.231229375))
                Line((-17.134066672, -24.231229375), (-15.501073467, -25.385929944))
            make_face()
        enl_v_mat_extru_8_tool2 = split(extrude(enl_v_mat_extru_8_sk2.sketch, amount=-ENL_V_MAT_EXTRU_8_REACH, mode=Mode.PRIVATE), bisect_by=enl_v_mat_extru_8_end, keep=Keep.BOTH, mode=Mode.PRIVATE)
        add(enl_v_mat_extru_8_tool2.solids().sort_by_distance((20.933214, 10.180641, 23.129862))[0], mode=Mode.SUBTRACT)

    # Enlèv. mat.-Extru.8 direction 2: up to this plane
    with SkipClean():  # the faces are left unmerged after this step: merging them gives an invalid solid
        enl_v_mat_extru_8_direction_2_end = Plane(origin=(-26.99, 8, 26.99), z_dir=(0, -1, 0))
        # Esquisse12 → Enlèv. mat.-Extru.8 direction 2 (cut, up to the surface)
        with BuildSketch(Plane(origin=(7.416369055, -10.488329701, 7.416369055), x_dir=(-0.8660254037844298, -0.4082482904638799, 0.2886751345948158), z_dir=(0.5000000000000154, -0.7071067811865477, 0.4999999999999844)), mode=Mode.PRIVATE) as enl_v_mat_extru_8_direction_2_sk1:
            with BuildLine():
                Line((-18.767059791, -23.076528867), (-17.134066672, -24.231229375))
                ThreePointArc((-17.134066672, -24.231229375), (-17.950563215, -22.936440175), (-17.612359253, -21.443535706))
                Line((-17.612359253, -21.443535706), (-18.767059791, -23.076528867))
            make_face()
        enl_v_mat_extru_8_direction_2_tool1 = split(extrude(enl_v_mat_extru_8_direction_2_sk1.sketch, amount=ENL_V_MAT_EXTRU_8_DIRECTION_2_REACH, mode=Mode.PRIVATE), bisect_by=enl_v_mat_extru_8_direction_2_end, keep=Keep.BOTH, mode=Mode.PRIVATE)
        add(enl_v_mat_extru_8_direction_2_tool1.solids().sort_by_distance((23.129862, 10.180641, 20.933214))[0], mode=Mode.SUBTRACT)
        # Esquisse12 → Enlèv. mat.-Extru.8 direction 2 (cut, up to the surface)
        with BuildSketch(Plane(origin=(7.416369055, -10.488329701, 7.416369055), x_dir=(-0.8660254037844298, -0.4082482904638799, 0.2886751345948158), z_dir=(0.5000000000000154, -0.7071067811865477, 0.4999999999999844)), mode=Mode.PRIVATE) as enl_v_mat_extru_8_direction_2_sk2:
            with BuildLine():
                Line((-15.501073467, -25.385929944), (-14.346372929, -23.752936782))
                ThreePointArc((-14.346372929, -23.752936782), (-15.64116216, -24.569433368), (-17.134066672, -24.231229375))
                Line((-17.134066672, -24.231229375), (-15.501073467, -25.385929944))
            make_face()
        enl_v_mat_extru_8_direction_2_tool2 = split(extrude(enl_v_mat_extru_8_direction_2_sk2.sketch, amount=ENL_V_MAT_EXTRU_8_DIRECTION_2_REACH, mode=Mode.PRIVATE), bisect_by=enl_v_mat_extru_8_direction_2_end, keep=Keep.BOTH, mode=Mode.PRIVATE)
        add(enl_v_mat_extru_8_direction_2_tool2.solids().sort_by_distance((20.933214, 10.180641, 23.129862))[0], mode=Mode.SUBTRACT)


solid = part.part
